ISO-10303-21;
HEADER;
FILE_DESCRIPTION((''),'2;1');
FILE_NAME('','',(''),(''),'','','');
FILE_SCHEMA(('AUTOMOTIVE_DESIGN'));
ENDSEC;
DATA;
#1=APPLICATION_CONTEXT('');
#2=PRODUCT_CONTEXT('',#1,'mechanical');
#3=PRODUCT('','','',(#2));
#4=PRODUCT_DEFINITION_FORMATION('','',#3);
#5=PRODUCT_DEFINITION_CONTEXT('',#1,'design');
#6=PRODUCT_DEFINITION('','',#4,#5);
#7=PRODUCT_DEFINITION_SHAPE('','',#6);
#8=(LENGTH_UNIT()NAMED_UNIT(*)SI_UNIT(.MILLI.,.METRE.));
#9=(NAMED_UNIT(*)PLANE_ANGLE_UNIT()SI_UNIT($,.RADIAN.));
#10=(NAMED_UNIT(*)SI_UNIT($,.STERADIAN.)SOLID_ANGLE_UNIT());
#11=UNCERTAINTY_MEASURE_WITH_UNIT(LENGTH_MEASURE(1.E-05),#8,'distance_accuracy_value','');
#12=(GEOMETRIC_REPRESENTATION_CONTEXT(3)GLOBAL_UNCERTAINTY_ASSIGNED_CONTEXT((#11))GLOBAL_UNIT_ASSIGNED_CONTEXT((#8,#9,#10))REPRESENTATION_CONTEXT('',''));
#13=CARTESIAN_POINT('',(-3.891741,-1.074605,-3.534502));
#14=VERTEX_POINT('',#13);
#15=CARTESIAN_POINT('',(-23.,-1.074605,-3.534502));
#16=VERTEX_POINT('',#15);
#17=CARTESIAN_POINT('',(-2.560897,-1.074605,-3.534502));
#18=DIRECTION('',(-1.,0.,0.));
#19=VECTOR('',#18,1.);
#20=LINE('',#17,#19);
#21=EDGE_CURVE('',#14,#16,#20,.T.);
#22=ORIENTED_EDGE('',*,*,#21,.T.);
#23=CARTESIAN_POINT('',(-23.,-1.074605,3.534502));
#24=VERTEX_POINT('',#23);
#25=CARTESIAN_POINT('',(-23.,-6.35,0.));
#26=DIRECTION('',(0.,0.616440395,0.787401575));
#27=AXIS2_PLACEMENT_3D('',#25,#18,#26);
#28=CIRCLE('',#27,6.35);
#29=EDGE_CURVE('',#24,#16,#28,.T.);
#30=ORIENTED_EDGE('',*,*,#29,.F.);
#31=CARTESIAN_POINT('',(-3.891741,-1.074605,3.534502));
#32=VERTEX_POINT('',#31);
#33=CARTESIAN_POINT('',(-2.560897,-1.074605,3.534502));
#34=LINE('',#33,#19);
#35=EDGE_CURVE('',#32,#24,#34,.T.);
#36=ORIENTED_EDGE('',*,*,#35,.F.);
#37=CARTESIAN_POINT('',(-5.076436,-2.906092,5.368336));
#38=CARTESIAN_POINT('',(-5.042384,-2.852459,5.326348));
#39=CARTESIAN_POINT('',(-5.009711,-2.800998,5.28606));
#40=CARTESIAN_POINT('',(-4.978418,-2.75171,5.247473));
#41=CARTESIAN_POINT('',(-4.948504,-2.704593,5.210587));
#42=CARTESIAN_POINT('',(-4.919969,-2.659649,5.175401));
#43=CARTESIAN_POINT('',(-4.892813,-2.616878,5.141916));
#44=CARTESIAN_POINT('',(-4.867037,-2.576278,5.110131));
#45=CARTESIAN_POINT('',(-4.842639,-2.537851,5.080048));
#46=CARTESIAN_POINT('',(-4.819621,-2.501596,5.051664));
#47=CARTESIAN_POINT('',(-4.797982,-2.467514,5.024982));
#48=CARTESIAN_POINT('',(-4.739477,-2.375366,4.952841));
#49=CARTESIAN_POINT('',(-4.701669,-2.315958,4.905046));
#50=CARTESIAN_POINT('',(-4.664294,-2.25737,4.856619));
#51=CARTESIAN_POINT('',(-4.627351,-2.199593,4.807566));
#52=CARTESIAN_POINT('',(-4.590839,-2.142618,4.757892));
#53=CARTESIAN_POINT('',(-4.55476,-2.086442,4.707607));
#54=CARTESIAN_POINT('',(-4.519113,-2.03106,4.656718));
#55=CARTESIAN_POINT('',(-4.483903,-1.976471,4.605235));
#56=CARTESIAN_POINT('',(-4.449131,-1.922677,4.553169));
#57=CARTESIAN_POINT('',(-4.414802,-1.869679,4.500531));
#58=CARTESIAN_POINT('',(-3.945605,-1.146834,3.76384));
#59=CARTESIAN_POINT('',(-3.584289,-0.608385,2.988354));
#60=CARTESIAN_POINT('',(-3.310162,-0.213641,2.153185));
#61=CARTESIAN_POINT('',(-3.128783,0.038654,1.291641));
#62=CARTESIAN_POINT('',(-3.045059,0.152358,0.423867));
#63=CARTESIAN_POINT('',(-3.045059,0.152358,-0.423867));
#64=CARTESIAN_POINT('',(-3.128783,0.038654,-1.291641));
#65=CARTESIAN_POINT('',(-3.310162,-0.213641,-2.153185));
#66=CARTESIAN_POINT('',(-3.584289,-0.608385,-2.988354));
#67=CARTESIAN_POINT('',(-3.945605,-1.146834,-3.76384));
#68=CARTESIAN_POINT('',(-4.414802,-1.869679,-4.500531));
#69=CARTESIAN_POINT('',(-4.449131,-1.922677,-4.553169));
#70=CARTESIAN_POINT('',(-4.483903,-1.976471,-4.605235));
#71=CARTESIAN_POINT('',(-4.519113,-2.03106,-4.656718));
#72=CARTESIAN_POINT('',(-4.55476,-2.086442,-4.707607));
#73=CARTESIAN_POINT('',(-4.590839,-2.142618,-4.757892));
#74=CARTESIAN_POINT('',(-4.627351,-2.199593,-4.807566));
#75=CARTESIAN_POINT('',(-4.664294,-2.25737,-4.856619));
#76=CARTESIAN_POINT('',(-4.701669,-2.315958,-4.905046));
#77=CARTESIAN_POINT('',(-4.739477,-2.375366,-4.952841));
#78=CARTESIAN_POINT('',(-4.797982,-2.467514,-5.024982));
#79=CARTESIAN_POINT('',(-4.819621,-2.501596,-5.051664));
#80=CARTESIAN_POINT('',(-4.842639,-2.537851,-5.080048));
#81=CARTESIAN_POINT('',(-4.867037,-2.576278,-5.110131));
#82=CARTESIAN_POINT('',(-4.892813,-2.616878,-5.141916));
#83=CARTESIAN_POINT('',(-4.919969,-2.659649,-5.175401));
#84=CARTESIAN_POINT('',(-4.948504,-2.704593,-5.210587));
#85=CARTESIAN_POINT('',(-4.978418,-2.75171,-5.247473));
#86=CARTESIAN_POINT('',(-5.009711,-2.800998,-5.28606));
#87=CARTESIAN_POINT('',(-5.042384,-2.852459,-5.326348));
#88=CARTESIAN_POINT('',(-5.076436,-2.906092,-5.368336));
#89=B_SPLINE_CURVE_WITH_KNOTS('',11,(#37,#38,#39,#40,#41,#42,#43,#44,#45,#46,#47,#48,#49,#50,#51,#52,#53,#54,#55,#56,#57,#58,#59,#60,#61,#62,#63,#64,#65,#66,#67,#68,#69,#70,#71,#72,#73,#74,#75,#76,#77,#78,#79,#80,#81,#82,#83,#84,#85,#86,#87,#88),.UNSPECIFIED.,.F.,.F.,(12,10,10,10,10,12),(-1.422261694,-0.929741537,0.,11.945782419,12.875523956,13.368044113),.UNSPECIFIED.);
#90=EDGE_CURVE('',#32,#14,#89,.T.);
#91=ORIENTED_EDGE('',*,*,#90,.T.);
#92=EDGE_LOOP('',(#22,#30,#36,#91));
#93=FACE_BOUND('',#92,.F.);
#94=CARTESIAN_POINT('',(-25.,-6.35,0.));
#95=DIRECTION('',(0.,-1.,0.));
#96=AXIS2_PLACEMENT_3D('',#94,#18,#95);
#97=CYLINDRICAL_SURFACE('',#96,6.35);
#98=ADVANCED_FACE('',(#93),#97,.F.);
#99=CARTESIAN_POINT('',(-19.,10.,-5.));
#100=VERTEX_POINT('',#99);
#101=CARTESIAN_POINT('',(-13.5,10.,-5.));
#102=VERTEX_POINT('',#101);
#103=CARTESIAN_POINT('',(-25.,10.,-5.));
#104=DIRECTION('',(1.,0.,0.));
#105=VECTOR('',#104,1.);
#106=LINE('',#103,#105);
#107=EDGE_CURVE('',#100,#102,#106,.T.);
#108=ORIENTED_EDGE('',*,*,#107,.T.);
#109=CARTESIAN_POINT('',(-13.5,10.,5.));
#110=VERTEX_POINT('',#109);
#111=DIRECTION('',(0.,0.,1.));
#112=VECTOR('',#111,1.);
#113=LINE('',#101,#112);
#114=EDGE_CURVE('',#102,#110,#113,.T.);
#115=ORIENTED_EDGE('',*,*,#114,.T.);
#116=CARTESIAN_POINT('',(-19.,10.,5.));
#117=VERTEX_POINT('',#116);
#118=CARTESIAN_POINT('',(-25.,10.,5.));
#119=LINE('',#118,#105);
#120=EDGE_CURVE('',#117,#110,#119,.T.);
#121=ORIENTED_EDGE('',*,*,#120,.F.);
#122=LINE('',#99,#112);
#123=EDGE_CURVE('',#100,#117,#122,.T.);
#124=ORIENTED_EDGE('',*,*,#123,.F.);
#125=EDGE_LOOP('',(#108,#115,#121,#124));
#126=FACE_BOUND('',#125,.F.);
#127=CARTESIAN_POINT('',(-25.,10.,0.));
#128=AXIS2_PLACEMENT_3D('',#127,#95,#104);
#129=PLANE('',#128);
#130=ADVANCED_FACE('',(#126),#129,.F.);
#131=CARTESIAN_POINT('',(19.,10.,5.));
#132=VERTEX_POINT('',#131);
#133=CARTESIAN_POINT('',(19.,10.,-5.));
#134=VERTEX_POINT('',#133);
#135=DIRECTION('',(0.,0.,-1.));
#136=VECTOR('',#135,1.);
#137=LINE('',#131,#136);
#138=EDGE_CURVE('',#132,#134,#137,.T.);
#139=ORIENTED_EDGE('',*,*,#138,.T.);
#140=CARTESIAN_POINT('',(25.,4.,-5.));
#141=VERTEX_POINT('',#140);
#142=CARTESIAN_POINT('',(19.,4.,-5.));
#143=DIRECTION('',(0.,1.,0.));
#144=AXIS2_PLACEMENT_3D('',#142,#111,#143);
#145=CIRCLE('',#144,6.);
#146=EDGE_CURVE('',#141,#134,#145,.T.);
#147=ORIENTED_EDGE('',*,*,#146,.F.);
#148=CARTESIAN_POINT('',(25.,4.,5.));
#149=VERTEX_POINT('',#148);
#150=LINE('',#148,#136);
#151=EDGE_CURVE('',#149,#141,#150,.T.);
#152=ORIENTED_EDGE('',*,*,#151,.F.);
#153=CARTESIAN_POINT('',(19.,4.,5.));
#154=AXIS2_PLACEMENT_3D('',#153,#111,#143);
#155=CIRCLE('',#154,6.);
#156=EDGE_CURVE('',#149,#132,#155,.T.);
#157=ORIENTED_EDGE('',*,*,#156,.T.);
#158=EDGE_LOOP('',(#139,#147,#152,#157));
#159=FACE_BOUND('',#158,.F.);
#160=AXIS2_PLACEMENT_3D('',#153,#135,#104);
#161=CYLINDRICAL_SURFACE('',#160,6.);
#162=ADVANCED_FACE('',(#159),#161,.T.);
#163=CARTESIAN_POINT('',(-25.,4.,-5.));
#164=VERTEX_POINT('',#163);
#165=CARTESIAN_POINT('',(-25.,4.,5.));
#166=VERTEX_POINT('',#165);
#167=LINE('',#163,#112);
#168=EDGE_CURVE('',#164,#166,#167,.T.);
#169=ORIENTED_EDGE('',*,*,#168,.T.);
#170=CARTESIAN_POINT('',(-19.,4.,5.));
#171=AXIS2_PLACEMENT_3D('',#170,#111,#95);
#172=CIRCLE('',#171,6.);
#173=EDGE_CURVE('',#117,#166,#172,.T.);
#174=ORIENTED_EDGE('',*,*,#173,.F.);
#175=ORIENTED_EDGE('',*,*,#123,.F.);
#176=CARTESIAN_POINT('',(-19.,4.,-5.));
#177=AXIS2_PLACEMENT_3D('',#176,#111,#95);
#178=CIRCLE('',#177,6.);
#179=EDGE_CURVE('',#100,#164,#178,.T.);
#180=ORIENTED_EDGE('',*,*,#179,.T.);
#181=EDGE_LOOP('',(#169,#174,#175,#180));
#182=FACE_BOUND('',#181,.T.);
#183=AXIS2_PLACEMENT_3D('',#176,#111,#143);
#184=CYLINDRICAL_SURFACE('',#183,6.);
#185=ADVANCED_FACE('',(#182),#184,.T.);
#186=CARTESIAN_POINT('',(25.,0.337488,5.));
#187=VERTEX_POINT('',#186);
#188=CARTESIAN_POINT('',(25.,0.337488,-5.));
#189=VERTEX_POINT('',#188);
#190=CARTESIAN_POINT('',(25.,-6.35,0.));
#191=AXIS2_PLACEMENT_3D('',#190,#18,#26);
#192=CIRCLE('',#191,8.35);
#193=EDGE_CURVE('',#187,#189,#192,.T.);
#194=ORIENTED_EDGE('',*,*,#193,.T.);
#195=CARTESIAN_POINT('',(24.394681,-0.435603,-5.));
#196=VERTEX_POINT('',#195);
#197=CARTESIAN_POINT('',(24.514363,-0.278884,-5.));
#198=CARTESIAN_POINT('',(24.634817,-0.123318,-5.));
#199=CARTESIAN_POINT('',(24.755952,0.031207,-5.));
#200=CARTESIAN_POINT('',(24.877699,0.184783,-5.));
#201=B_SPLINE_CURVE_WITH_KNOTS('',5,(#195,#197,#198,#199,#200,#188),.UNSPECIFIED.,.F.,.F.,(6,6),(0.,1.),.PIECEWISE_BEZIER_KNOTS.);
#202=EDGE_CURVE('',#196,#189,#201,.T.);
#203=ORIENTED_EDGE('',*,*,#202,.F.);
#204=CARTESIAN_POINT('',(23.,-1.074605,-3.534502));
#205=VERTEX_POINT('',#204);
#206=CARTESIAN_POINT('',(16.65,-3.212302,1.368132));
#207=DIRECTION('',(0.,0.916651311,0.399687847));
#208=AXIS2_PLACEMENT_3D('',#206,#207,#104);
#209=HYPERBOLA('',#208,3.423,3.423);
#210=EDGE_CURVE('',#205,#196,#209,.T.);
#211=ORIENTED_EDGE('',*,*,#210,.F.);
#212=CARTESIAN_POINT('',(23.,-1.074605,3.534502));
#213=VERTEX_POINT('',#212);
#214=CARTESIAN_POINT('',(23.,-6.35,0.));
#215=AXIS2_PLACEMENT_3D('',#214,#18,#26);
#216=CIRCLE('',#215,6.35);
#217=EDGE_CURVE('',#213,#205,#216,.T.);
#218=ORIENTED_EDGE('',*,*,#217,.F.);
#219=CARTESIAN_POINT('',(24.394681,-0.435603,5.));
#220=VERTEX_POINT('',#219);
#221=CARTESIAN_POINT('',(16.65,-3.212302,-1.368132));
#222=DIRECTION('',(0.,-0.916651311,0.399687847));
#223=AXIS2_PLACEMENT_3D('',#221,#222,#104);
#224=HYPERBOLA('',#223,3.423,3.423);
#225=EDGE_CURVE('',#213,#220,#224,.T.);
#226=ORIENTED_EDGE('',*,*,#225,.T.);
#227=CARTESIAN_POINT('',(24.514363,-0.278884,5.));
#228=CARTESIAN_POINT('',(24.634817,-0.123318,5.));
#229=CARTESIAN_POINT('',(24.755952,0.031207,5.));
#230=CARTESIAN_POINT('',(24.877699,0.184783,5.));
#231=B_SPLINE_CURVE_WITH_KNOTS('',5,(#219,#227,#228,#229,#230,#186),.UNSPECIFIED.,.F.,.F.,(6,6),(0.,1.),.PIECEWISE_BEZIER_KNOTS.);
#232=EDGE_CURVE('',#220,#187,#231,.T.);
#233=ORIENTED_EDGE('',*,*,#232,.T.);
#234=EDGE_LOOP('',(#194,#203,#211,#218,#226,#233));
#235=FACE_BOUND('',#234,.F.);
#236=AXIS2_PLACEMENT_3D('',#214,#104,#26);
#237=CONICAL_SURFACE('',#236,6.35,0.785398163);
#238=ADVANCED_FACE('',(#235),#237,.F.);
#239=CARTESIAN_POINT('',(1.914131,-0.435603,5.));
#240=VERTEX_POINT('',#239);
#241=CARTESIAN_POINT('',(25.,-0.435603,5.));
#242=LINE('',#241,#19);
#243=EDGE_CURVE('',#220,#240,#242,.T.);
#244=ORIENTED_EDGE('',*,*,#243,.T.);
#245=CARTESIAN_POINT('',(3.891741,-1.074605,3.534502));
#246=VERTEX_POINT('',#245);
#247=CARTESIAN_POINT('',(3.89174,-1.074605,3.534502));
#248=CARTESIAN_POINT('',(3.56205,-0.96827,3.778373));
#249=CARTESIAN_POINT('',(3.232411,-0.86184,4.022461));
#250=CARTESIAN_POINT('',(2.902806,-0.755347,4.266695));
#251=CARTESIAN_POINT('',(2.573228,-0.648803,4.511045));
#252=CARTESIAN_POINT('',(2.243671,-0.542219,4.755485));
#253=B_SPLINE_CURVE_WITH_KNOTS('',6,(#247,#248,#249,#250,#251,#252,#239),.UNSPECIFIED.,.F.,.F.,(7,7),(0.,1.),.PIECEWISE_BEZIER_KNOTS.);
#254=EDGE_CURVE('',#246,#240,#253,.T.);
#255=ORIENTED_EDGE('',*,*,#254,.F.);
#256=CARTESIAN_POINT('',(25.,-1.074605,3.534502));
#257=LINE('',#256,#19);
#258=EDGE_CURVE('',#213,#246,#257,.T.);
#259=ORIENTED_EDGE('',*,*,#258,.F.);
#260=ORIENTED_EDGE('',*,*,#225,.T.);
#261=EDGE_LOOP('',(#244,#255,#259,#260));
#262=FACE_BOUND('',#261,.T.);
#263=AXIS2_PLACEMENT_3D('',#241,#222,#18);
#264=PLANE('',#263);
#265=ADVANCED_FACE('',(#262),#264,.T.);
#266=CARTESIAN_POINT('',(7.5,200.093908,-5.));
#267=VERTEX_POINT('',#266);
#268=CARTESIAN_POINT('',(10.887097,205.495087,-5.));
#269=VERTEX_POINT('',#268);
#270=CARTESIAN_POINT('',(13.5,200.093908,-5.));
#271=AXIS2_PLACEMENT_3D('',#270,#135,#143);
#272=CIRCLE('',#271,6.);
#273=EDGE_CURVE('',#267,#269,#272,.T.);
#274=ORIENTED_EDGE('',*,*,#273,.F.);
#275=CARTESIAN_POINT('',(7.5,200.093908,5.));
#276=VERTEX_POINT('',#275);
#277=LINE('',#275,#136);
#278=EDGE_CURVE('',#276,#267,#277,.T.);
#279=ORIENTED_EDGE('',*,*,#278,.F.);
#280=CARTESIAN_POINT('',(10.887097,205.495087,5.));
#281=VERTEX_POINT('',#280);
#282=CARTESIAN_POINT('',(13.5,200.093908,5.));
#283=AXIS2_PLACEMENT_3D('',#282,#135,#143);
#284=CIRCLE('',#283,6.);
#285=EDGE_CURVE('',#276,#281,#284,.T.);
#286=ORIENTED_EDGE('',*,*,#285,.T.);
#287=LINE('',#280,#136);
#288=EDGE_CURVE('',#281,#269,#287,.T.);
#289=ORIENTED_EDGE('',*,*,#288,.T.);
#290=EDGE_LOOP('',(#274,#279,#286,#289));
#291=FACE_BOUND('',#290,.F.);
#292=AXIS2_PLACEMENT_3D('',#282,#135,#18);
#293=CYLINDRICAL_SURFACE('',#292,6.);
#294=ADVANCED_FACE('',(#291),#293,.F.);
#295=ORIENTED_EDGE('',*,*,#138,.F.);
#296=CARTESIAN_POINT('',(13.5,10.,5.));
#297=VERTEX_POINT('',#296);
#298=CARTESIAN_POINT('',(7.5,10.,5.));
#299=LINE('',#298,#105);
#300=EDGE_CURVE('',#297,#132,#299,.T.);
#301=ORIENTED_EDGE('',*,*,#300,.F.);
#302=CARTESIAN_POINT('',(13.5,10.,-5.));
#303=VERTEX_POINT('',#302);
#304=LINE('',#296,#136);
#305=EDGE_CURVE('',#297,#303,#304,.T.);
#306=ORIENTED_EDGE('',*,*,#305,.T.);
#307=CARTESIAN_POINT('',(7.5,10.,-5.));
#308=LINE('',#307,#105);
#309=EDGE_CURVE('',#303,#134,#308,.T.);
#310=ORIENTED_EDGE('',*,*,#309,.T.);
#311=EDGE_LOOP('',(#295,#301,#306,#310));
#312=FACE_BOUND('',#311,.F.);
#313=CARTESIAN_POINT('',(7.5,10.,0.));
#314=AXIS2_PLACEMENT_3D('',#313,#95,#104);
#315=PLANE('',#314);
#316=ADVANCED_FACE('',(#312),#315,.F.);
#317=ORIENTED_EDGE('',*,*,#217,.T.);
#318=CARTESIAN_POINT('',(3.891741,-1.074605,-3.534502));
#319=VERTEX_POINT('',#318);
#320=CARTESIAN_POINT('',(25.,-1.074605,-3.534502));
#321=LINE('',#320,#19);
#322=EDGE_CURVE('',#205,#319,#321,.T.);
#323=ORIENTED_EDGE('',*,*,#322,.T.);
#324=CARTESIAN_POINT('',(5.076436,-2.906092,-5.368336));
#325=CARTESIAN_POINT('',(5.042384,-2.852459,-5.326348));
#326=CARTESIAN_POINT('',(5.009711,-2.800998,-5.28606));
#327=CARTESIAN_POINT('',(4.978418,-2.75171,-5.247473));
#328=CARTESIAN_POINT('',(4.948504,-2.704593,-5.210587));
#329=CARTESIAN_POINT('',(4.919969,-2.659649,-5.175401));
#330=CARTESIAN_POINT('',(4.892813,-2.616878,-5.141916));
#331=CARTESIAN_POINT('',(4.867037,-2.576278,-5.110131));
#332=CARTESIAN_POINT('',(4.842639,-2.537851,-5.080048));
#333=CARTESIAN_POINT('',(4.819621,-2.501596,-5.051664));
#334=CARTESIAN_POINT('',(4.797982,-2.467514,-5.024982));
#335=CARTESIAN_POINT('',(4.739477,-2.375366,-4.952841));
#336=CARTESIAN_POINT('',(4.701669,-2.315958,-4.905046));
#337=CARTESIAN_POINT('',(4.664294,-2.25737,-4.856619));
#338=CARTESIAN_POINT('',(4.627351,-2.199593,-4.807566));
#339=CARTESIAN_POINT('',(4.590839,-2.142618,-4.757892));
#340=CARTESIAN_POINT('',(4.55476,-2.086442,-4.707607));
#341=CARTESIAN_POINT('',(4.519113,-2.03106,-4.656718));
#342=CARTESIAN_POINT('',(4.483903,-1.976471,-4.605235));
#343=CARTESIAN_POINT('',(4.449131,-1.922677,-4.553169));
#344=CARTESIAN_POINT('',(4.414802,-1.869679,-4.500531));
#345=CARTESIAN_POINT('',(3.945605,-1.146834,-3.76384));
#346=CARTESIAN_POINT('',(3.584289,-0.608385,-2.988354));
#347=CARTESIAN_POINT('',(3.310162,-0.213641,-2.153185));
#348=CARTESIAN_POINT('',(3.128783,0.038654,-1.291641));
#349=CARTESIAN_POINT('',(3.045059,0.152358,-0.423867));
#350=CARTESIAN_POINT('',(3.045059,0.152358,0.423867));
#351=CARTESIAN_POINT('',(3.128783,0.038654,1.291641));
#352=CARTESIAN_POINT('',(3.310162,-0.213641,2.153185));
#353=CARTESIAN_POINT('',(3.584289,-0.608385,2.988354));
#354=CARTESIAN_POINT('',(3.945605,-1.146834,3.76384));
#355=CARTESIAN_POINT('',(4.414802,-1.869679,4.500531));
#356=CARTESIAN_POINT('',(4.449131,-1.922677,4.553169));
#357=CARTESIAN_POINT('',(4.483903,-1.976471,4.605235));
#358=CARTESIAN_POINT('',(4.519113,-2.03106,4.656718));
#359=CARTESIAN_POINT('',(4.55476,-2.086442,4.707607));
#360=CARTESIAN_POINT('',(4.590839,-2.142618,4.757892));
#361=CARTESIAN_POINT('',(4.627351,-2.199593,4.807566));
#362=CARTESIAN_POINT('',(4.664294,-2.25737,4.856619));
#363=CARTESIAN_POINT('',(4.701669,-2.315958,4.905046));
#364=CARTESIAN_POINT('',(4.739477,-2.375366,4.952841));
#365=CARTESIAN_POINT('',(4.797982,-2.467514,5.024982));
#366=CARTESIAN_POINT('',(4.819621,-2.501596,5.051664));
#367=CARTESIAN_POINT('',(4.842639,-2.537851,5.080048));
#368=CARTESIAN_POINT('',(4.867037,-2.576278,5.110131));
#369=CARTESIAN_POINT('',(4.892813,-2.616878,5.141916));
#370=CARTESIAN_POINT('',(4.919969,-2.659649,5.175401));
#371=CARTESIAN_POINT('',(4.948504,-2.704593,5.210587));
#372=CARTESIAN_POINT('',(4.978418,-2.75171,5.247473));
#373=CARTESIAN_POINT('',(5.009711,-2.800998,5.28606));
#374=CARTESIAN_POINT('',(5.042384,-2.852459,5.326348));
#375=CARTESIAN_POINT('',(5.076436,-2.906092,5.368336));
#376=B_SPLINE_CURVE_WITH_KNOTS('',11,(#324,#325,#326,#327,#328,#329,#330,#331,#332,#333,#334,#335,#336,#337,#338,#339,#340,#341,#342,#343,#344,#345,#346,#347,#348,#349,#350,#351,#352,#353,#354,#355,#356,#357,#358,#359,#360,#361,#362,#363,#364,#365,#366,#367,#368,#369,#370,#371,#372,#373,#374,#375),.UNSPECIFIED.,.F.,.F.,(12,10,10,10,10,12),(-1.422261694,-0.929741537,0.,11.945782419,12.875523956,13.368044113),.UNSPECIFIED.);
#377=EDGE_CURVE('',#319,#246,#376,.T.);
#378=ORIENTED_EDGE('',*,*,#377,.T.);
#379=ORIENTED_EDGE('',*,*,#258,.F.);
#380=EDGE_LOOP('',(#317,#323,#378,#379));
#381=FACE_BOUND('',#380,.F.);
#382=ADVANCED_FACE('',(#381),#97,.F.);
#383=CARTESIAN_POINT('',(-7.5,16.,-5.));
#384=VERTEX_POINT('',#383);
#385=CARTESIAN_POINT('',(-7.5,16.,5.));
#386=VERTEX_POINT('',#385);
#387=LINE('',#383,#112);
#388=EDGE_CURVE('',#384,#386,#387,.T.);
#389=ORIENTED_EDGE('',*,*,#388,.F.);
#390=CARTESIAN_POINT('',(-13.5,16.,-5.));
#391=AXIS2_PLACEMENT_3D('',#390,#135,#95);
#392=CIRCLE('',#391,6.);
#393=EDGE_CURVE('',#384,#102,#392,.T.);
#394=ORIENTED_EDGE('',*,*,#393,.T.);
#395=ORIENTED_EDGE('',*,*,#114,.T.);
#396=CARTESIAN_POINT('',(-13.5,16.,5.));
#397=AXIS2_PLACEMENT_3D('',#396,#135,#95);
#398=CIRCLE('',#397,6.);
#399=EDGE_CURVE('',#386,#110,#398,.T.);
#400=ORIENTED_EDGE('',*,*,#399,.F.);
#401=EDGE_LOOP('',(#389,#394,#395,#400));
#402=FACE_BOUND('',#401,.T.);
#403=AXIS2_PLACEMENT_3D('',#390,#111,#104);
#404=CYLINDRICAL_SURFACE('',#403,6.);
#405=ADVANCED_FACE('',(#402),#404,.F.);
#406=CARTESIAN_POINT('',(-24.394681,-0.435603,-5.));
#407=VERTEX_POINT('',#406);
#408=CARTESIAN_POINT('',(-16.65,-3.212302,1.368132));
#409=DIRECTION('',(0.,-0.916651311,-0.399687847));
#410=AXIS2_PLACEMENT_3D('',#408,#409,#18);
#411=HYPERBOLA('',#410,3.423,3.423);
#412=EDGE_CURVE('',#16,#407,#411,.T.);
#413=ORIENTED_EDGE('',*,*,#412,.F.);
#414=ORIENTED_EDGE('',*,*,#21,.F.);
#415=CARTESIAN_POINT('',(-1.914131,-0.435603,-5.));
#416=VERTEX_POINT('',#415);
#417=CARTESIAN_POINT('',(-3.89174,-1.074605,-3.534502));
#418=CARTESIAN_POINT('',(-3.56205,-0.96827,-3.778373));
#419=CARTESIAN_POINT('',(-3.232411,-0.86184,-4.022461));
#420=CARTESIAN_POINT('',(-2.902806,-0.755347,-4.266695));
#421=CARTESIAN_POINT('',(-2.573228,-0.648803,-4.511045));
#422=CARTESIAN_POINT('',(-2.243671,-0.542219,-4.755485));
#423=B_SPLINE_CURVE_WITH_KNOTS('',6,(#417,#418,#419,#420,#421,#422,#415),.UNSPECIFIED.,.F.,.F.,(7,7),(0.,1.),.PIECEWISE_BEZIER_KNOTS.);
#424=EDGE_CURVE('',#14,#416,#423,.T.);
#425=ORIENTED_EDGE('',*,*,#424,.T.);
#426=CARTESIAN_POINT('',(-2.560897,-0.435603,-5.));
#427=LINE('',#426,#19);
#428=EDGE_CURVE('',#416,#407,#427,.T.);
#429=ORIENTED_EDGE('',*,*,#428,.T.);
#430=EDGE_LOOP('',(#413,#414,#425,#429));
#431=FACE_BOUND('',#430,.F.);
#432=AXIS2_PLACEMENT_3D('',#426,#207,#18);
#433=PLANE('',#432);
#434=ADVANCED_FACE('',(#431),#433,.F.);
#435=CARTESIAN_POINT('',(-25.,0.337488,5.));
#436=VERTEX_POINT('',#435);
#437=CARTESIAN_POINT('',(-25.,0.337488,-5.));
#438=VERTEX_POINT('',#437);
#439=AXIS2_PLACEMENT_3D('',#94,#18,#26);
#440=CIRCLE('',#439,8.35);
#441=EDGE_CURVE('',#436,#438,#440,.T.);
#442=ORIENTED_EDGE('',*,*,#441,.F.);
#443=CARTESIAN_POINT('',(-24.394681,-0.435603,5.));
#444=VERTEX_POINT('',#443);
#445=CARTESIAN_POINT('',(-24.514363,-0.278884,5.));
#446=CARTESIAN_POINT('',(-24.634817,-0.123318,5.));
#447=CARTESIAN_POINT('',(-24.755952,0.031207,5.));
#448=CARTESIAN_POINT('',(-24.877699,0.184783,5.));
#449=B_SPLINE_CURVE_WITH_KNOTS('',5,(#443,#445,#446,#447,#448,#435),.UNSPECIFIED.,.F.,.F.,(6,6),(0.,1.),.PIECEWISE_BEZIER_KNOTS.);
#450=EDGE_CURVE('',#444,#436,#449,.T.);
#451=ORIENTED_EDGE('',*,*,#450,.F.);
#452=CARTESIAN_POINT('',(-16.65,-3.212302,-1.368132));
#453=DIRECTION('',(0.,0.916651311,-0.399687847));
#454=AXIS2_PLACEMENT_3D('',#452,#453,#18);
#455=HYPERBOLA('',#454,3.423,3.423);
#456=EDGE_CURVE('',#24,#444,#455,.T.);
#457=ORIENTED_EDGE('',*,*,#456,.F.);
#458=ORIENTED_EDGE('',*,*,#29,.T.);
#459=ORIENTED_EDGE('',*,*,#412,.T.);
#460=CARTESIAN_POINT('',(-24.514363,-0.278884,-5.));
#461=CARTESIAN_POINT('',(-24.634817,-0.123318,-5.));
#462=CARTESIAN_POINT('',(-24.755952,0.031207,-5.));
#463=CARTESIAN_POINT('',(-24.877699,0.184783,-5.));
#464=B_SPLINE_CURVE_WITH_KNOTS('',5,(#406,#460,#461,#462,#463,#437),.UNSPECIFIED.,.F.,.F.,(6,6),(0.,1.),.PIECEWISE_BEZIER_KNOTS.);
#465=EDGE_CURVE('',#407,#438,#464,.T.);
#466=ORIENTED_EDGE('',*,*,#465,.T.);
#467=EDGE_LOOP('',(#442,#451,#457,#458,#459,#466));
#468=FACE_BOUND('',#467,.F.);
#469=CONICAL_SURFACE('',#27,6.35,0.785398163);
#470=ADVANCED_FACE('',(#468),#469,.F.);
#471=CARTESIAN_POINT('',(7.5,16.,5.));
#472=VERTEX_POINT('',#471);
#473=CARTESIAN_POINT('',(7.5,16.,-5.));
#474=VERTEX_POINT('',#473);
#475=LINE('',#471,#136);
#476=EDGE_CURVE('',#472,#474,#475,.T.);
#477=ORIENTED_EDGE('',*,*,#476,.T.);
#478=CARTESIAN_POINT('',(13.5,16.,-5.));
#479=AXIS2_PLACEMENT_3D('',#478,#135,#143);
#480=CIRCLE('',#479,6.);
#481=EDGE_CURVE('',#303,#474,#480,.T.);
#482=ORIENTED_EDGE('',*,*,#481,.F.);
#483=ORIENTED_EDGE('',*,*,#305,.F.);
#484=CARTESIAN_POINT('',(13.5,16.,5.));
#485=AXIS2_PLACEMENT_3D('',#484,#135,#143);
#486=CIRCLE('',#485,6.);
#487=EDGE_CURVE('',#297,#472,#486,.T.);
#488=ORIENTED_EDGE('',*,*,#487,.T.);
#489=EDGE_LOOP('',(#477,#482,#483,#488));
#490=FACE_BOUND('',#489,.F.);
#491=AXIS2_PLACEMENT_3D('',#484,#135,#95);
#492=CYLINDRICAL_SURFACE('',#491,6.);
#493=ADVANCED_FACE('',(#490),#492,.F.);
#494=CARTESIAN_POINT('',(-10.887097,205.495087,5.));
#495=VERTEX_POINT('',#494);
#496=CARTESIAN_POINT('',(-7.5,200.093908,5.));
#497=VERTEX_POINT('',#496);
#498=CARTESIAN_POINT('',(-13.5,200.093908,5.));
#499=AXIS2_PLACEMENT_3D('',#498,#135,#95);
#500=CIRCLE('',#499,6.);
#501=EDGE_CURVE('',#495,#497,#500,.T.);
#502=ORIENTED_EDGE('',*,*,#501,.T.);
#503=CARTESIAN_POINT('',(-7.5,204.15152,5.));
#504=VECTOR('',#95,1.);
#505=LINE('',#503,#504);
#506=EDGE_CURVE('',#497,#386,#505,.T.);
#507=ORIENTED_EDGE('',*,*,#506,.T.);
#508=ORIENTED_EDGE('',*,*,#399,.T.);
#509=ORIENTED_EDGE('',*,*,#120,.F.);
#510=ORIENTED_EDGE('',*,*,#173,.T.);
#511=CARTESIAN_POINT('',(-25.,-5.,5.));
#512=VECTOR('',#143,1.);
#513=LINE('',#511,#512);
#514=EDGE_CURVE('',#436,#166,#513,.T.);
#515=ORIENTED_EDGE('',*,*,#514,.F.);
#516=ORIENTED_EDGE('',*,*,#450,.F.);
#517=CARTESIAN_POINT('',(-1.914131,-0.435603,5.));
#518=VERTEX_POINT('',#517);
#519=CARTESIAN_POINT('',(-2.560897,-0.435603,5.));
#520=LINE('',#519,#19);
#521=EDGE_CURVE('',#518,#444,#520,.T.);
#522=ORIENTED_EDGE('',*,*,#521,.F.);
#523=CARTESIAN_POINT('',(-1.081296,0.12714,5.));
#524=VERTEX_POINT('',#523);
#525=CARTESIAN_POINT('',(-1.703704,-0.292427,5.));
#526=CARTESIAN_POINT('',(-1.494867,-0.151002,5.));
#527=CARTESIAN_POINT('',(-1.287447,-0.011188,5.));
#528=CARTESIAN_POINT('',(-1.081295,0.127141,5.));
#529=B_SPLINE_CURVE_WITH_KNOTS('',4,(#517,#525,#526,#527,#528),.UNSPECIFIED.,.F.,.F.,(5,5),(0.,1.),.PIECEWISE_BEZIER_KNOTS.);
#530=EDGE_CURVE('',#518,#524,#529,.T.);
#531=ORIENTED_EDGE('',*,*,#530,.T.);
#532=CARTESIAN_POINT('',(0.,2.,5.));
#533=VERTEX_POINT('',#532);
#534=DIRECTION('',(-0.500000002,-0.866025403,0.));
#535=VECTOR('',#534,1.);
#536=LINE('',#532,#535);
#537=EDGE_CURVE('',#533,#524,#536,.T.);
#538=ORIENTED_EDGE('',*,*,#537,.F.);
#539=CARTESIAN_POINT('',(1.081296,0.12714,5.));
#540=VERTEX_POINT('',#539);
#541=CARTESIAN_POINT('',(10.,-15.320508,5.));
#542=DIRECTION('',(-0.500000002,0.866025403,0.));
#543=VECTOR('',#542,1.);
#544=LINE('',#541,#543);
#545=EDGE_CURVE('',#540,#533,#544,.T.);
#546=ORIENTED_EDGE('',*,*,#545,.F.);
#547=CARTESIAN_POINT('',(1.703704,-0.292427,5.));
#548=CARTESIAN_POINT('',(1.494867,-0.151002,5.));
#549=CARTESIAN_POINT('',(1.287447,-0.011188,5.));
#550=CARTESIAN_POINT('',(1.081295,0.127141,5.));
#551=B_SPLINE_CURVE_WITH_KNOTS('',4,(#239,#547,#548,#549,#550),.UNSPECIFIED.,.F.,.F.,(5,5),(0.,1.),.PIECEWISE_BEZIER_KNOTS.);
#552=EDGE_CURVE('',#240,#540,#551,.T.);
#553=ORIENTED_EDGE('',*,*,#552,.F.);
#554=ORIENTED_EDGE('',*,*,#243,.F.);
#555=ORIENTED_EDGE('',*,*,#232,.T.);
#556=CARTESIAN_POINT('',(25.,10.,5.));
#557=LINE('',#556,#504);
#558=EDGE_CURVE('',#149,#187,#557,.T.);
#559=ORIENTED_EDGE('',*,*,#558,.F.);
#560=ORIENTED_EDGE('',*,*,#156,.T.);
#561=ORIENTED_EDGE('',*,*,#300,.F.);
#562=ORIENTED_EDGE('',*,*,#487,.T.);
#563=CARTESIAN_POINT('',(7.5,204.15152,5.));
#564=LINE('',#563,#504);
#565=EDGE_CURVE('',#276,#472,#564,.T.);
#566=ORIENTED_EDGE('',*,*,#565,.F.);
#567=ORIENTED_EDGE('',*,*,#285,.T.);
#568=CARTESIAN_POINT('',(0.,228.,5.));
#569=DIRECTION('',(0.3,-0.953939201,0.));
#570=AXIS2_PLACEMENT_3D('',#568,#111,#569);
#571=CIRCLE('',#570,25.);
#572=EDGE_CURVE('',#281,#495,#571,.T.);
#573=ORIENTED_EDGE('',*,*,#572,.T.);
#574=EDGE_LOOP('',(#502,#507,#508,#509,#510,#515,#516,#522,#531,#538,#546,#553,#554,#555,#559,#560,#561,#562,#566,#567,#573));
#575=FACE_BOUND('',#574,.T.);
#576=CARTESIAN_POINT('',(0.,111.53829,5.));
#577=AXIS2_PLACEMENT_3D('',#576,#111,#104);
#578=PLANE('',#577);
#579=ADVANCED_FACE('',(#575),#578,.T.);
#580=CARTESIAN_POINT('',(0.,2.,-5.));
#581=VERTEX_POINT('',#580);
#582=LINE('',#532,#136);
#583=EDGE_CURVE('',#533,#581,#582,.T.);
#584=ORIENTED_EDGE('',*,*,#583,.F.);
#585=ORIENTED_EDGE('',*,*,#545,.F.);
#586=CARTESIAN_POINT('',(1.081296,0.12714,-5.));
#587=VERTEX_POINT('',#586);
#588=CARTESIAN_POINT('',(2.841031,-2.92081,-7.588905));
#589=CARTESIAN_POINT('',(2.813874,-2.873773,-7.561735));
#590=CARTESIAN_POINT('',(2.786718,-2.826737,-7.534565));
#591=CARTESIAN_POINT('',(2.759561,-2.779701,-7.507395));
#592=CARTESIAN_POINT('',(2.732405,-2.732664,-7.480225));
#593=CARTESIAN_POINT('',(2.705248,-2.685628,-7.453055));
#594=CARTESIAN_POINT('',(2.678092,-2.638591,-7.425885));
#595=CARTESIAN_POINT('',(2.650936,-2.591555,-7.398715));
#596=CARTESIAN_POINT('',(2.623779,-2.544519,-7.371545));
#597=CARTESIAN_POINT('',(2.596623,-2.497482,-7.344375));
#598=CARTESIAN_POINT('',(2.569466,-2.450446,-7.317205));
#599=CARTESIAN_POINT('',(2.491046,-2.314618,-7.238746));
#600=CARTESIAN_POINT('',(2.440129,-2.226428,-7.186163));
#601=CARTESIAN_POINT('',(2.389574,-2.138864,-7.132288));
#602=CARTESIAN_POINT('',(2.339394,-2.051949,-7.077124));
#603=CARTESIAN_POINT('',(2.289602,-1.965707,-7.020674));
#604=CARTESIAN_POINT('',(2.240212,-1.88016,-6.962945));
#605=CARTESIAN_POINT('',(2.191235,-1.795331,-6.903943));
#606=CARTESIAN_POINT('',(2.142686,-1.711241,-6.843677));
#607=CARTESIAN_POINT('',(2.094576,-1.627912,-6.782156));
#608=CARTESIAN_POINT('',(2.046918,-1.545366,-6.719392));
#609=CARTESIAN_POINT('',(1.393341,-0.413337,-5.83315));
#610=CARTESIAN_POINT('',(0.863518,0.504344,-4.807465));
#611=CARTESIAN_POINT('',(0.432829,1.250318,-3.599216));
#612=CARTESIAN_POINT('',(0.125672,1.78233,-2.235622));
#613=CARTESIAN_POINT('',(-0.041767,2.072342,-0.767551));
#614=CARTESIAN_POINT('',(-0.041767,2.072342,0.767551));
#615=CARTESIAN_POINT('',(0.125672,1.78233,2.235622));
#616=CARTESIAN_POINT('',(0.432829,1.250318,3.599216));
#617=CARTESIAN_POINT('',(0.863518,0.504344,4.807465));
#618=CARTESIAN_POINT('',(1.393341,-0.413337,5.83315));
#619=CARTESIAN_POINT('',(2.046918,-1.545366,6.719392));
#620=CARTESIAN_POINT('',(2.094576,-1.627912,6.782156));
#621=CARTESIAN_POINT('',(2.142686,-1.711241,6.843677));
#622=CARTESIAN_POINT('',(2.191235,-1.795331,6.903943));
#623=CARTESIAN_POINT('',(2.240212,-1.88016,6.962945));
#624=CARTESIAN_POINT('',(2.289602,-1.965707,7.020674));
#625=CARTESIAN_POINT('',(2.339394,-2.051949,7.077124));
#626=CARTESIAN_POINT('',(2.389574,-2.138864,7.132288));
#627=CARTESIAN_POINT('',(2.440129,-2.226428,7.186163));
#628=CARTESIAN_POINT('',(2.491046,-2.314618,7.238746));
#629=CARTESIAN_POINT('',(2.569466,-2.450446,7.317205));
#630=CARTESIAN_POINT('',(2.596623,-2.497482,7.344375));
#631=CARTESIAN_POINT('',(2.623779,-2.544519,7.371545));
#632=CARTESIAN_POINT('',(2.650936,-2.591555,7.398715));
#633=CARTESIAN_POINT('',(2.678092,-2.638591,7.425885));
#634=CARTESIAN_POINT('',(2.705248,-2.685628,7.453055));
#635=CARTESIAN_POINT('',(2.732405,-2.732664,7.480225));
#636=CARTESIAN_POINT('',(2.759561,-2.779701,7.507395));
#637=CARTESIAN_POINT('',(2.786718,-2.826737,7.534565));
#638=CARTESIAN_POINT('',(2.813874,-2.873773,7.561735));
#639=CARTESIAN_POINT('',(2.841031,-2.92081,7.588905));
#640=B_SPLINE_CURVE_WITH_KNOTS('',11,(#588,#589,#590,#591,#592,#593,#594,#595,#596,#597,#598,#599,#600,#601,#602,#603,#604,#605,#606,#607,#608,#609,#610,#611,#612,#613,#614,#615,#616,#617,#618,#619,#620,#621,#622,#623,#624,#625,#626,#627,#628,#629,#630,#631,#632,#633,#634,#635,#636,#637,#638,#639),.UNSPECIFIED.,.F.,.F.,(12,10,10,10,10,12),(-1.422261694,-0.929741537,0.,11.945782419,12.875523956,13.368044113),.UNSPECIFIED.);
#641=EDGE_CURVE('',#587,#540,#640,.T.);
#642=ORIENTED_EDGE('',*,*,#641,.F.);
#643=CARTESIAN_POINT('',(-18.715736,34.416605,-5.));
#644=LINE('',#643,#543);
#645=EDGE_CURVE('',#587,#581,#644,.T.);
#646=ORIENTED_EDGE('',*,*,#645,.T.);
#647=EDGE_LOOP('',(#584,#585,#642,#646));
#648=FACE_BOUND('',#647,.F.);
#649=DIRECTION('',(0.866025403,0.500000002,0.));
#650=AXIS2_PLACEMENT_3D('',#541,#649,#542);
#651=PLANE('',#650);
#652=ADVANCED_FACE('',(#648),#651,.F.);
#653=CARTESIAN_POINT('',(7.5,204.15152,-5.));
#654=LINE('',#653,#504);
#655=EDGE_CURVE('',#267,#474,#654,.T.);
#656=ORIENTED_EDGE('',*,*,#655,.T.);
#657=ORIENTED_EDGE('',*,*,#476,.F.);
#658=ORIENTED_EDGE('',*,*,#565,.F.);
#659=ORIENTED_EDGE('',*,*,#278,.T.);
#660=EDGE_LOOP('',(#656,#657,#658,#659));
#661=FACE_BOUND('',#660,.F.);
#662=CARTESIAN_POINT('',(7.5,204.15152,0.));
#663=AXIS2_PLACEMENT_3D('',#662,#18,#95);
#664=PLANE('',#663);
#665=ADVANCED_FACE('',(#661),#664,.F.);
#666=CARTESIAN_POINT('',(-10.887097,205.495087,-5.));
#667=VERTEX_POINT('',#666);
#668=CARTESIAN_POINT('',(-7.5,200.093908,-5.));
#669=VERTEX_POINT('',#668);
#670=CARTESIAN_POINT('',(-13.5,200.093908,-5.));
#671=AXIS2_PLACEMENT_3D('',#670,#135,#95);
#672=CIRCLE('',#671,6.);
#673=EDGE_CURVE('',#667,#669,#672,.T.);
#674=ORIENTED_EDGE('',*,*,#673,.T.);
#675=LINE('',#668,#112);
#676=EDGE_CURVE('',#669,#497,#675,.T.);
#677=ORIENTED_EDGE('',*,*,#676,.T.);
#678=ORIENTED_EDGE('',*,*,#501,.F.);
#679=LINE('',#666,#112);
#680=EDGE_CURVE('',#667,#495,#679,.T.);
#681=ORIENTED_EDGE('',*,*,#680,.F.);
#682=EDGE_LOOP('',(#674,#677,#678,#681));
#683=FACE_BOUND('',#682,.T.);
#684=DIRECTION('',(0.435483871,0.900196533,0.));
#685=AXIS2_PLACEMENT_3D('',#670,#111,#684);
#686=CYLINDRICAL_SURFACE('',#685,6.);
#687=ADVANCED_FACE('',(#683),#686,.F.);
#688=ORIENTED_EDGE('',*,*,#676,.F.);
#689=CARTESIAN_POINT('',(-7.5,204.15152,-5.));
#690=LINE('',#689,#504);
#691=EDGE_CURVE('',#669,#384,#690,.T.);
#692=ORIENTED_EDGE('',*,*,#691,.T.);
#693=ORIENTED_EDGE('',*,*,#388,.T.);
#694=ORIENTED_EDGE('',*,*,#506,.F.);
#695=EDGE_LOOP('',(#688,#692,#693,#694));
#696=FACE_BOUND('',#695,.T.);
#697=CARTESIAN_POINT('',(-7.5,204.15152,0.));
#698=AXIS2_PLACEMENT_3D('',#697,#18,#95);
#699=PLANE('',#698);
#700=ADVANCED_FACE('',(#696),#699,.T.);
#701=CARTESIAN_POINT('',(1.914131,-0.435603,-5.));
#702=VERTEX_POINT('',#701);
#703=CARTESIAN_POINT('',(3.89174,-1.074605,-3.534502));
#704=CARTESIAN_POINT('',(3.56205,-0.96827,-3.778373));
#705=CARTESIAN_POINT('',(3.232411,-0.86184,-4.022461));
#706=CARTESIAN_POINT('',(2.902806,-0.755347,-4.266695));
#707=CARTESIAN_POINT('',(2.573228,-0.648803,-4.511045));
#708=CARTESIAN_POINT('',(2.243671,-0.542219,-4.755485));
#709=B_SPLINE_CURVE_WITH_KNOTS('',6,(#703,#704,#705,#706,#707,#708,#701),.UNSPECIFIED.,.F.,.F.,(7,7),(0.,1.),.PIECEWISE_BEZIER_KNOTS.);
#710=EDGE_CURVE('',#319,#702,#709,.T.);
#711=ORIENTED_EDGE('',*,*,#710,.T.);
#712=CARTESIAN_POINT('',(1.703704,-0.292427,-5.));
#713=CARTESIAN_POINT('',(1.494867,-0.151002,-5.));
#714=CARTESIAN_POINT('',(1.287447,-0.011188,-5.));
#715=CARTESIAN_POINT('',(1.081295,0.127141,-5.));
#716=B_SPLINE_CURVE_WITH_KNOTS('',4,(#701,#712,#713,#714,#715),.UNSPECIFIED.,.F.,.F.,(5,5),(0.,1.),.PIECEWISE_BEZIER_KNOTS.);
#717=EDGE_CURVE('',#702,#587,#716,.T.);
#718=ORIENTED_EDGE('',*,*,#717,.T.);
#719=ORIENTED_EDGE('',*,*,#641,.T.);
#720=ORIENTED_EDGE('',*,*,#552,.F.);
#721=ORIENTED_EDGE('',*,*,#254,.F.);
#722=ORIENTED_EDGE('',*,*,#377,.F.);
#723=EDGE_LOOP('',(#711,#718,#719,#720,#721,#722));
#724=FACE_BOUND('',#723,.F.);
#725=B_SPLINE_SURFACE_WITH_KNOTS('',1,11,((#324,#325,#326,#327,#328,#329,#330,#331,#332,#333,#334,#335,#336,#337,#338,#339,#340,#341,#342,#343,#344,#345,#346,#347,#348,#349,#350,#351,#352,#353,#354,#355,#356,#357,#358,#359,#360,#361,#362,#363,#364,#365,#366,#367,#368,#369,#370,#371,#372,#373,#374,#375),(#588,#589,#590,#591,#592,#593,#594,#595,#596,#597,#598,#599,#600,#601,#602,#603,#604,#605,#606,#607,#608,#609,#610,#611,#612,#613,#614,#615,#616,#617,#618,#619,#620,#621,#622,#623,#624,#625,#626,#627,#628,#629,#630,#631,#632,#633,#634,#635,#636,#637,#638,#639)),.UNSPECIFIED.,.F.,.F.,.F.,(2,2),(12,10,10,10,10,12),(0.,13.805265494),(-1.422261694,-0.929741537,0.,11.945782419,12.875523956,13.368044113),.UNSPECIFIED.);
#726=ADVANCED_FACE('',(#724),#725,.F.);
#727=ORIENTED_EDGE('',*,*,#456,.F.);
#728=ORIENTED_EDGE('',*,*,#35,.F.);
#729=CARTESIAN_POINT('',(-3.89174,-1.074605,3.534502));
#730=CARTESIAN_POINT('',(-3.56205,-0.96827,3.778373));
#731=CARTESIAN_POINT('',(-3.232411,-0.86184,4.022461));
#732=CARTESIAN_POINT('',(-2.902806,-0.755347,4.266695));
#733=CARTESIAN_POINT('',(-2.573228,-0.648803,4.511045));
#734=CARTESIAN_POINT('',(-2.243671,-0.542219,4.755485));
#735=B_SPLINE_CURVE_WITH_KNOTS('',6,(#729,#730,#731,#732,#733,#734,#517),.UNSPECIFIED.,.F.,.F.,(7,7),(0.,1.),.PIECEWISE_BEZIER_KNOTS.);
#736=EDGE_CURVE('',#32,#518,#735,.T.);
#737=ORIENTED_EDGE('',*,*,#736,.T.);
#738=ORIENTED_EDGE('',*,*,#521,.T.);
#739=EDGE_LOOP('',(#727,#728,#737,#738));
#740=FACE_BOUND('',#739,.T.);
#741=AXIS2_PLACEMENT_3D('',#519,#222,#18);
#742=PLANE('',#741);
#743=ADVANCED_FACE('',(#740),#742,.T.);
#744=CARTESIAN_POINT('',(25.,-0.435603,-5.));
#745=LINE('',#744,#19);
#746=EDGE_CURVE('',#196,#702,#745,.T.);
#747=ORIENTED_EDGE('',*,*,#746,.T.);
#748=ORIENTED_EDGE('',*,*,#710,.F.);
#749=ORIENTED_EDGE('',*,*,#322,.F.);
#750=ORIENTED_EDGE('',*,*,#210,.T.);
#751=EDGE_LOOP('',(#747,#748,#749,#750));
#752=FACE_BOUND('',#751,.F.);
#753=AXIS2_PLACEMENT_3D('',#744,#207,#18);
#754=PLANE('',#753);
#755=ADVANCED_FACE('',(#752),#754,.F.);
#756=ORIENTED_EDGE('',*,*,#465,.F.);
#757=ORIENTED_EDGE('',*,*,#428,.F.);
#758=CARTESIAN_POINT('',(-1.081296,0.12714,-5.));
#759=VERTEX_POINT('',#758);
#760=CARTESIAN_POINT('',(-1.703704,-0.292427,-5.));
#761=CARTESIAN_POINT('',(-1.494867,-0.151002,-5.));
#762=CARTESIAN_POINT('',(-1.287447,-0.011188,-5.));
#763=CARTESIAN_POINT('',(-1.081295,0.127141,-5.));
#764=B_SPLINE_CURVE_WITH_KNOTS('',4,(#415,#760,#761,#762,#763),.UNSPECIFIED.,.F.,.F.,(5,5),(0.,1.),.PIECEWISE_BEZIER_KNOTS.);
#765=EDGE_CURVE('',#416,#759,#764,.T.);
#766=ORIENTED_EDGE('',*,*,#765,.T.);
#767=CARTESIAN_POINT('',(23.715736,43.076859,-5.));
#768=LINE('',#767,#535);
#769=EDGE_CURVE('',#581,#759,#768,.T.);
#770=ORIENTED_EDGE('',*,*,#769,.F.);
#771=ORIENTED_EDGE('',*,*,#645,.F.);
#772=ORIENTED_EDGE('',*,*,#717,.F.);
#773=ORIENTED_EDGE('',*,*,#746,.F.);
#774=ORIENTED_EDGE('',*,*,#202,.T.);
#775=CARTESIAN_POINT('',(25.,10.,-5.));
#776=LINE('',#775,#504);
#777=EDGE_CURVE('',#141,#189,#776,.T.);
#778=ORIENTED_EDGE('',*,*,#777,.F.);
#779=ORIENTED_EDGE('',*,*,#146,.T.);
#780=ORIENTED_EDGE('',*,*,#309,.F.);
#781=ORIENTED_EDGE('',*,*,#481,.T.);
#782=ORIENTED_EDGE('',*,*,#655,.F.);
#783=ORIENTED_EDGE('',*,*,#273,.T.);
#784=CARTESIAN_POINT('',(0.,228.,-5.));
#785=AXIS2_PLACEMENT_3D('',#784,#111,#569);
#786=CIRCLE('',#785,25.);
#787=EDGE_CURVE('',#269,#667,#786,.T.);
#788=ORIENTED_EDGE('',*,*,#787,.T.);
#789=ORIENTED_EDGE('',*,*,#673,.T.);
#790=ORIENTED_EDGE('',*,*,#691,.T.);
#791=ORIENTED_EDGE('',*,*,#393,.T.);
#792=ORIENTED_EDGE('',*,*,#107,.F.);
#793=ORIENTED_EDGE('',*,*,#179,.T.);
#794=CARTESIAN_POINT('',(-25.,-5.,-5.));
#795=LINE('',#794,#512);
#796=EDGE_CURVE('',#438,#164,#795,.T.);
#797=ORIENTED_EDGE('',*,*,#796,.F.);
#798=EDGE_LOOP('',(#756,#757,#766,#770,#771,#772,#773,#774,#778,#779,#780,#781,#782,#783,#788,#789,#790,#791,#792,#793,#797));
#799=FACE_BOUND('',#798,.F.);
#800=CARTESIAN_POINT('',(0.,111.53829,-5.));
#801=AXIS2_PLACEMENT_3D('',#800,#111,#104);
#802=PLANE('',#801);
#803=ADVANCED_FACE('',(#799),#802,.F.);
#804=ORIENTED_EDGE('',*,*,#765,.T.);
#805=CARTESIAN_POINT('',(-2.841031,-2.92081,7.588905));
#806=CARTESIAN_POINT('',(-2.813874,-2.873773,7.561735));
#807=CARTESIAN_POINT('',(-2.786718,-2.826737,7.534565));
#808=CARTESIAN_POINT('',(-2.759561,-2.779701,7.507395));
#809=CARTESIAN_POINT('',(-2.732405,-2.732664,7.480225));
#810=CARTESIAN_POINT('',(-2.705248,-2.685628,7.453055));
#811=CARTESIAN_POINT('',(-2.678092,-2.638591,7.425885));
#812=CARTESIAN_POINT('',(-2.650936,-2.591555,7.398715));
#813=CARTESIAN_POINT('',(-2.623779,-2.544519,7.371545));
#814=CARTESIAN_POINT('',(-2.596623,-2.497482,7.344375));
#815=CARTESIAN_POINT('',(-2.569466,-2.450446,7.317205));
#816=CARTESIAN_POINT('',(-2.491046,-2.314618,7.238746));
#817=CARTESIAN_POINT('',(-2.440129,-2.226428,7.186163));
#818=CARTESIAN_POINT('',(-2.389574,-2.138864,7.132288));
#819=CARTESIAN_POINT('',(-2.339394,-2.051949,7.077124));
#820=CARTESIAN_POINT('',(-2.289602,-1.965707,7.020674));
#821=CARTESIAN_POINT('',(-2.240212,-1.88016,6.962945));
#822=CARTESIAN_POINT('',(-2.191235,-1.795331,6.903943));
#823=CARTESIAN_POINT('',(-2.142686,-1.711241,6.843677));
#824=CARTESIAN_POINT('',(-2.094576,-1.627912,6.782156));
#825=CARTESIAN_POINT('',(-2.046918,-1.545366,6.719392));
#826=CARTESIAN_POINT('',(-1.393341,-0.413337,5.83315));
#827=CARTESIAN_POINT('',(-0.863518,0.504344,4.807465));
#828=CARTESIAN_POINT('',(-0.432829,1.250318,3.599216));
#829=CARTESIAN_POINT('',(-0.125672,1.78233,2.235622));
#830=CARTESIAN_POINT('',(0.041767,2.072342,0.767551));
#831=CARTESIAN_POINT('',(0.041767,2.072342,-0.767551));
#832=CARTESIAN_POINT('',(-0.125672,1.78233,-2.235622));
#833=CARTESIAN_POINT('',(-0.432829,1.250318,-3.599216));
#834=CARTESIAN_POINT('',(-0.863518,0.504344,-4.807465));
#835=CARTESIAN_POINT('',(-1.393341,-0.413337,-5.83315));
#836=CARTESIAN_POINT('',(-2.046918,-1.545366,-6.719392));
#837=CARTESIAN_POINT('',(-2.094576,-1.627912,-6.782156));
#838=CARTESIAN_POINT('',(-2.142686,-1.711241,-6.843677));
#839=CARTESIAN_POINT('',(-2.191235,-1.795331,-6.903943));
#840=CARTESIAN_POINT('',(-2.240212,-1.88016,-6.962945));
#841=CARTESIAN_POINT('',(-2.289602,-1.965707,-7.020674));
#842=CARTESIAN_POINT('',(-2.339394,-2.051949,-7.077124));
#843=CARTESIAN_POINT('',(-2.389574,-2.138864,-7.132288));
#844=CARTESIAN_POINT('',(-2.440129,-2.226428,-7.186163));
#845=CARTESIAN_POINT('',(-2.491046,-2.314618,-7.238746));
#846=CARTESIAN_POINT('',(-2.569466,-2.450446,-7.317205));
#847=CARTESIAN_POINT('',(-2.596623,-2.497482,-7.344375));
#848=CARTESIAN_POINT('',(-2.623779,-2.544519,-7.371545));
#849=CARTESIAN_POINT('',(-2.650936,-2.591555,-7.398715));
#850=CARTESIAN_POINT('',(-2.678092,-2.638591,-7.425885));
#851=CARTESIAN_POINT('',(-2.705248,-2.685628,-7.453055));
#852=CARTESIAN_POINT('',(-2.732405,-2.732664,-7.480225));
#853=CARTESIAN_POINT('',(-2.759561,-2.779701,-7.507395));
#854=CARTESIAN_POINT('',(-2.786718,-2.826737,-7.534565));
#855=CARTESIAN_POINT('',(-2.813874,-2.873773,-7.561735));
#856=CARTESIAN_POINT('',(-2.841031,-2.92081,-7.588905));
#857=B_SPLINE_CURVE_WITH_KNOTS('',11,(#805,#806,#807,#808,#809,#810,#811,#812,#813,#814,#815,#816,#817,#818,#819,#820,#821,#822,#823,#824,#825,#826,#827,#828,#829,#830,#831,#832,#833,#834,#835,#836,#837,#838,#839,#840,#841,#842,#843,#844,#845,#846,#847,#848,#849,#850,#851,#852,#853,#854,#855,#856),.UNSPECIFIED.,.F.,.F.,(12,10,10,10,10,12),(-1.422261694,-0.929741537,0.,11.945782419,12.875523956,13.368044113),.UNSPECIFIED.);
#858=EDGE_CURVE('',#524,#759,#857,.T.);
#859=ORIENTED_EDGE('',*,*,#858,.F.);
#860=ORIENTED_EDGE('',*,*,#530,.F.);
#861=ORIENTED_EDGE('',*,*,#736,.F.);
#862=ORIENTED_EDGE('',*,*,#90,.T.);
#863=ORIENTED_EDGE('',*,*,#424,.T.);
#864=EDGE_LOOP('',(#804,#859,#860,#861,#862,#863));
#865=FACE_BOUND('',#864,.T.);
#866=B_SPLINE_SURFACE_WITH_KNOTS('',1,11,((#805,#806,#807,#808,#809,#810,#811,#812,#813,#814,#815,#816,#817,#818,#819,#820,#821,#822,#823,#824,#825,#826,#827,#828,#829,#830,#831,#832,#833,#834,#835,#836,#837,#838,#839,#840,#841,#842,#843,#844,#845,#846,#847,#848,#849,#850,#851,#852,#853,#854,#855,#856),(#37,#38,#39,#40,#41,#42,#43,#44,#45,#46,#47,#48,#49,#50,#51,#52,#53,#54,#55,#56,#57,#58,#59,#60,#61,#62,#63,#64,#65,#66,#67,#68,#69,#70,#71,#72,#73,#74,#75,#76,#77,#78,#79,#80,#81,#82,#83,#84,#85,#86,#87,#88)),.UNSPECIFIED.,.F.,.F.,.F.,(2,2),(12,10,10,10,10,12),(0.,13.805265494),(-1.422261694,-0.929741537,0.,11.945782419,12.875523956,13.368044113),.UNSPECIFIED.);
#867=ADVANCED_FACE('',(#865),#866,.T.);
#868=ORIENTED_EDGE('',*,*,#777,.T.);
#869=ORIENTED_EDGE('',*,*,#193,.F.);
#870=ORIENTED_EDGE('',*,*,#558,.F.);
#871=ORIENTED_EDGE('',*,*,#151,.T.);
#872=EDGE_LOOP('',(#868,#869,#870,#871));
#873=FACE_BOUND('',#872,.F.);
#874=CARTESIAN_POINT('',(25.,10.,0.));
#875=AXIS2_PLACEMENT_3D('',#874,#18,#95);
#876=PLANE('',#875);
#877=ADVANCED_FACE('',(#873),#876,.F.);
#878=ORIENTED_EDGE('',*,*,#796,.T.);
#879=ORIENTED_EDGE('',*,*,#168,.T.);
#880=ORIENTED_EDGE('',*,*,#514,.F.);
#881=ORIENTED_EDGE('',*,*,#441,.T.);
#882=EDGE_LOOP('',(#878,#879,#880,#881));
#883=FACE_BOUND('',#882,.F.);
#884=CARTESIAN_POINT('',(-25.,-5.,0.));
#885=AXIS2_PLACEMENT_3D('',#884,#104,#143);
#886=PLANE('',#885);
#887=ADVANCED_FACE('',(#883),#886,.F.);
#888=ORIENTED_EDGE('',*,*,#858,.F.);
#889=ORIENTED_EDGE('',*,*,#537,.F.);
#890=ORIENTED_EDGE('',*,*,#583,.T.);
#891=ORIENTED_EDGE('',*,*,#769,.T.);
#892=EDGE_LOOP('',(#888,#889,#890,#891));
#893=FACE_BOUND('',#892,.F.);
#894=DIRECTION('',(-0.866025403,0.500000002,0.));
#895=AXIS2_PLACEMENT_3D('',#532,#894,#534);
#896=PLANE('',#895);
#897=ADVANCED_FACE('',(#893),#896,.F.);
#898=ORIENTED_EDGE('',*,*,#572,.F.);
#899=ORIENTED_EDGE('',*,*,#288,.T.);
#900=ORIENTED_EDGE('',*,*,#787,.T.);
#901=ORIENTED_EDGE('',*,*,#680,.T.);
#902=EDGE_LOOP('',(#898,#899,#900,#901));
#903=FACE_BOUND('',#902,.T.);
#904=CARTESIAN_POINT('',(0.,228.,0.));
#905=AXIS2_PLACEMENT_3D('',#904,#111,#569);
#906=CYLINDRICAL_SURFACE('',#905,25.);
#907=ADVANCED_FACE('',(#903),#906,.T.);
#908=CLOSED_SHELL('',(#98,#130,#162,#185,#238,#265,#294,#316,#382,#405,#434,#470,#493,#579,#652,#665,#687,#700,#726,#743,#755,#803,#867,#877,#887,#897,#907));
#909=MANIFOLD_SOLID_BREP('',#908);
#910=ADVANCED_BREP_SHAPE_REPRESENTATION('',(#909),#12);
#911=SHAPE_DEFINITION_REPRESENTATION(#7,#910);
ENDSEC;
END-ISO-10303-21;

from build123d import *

# Parameters (mm, degrees)
PAD_DEPTH       = 5
SKETCH001_R     = 6.35
POCKET_DEPTH    = 50.001
POCKET001_DEPTH = 10.001
CHAMFER_SIZE    = 2
FILLET_R        = 6


with BuildPart() as part:
    # Sketch → Pad (new body, symmetric)
    with BuildSketch(Plane.XY):
        with BuildLine():
            ThreePointArc((7.5, 204.15152), (0, 253), (-7.5, 204.15152))
            Line((-7.5, 204.15152), (-7.5, 10))
            Line((-25, 10), (-7.5, 10))
            Line((-25, -5), (-25, 10))
            Line((25, -5), (-25, -5))
            Line((25, 10), (25, -5))
            Line((7.5, 10), (25, 10))
            Line((7.5, 204.15152), (7.5, 10))
        make_face()
    extrude(amount=PAD_DEPTH, both=True)

    # Sketch001 → Pocket (cut, through all)
    with BuildSketch(Plane(origin=(-25, 0, 0), x_dir=(0, -1, 0), z_dir=(-1, 0, 0))):
        with Locations((6.35, 0)):
            Circle(SKETCH001_R)
    extrude(amount=-POCKET_DEPTH, mode=Mode.SUBTRACT)

    # Sketch002 → Pocket001 (cut, through all)
    with BuildSketch(Plane.XY.offset(5)):
        Polygon((0, 2), (-10, -15.320508), (10, -15.320508), align=None)
    extrude(amount=-POCKET001_DEPTH, mode=Mode.SUBTRACT)

    # Chamfer
    chamfer_edges = [part.edges().sort_by_distance(p)[0] for p in [
        (13.780448, -2.435603, 5),
        (-13.780448, -2.435603, 5),
        (-25, 0, 0),
        (-1.154701, 0, 0),
        (1.154701, 0, 0),
        (25, 0, 0),
        (13.780448, -2.435603, -5),
        (-13.780448, -2.435603, -5),
    ]]
    chamfer(chamfer_edges, length=CHAMFER_SIZE)

    # Fillet
    fillet_edges = [part.edges().sort_by_distance(p)[0] for p in [
        (25, 10, 0),
        (7.5, 10, 0),
        (-7.5, 10, 0),
        (-25, 10, 0),
        (7.5, 204.15152, 0),
        (-7.5, 204.15152, 0),
    ]]
    fillet(fillet_edges, radius=FILLET_R)


solid = part.part
